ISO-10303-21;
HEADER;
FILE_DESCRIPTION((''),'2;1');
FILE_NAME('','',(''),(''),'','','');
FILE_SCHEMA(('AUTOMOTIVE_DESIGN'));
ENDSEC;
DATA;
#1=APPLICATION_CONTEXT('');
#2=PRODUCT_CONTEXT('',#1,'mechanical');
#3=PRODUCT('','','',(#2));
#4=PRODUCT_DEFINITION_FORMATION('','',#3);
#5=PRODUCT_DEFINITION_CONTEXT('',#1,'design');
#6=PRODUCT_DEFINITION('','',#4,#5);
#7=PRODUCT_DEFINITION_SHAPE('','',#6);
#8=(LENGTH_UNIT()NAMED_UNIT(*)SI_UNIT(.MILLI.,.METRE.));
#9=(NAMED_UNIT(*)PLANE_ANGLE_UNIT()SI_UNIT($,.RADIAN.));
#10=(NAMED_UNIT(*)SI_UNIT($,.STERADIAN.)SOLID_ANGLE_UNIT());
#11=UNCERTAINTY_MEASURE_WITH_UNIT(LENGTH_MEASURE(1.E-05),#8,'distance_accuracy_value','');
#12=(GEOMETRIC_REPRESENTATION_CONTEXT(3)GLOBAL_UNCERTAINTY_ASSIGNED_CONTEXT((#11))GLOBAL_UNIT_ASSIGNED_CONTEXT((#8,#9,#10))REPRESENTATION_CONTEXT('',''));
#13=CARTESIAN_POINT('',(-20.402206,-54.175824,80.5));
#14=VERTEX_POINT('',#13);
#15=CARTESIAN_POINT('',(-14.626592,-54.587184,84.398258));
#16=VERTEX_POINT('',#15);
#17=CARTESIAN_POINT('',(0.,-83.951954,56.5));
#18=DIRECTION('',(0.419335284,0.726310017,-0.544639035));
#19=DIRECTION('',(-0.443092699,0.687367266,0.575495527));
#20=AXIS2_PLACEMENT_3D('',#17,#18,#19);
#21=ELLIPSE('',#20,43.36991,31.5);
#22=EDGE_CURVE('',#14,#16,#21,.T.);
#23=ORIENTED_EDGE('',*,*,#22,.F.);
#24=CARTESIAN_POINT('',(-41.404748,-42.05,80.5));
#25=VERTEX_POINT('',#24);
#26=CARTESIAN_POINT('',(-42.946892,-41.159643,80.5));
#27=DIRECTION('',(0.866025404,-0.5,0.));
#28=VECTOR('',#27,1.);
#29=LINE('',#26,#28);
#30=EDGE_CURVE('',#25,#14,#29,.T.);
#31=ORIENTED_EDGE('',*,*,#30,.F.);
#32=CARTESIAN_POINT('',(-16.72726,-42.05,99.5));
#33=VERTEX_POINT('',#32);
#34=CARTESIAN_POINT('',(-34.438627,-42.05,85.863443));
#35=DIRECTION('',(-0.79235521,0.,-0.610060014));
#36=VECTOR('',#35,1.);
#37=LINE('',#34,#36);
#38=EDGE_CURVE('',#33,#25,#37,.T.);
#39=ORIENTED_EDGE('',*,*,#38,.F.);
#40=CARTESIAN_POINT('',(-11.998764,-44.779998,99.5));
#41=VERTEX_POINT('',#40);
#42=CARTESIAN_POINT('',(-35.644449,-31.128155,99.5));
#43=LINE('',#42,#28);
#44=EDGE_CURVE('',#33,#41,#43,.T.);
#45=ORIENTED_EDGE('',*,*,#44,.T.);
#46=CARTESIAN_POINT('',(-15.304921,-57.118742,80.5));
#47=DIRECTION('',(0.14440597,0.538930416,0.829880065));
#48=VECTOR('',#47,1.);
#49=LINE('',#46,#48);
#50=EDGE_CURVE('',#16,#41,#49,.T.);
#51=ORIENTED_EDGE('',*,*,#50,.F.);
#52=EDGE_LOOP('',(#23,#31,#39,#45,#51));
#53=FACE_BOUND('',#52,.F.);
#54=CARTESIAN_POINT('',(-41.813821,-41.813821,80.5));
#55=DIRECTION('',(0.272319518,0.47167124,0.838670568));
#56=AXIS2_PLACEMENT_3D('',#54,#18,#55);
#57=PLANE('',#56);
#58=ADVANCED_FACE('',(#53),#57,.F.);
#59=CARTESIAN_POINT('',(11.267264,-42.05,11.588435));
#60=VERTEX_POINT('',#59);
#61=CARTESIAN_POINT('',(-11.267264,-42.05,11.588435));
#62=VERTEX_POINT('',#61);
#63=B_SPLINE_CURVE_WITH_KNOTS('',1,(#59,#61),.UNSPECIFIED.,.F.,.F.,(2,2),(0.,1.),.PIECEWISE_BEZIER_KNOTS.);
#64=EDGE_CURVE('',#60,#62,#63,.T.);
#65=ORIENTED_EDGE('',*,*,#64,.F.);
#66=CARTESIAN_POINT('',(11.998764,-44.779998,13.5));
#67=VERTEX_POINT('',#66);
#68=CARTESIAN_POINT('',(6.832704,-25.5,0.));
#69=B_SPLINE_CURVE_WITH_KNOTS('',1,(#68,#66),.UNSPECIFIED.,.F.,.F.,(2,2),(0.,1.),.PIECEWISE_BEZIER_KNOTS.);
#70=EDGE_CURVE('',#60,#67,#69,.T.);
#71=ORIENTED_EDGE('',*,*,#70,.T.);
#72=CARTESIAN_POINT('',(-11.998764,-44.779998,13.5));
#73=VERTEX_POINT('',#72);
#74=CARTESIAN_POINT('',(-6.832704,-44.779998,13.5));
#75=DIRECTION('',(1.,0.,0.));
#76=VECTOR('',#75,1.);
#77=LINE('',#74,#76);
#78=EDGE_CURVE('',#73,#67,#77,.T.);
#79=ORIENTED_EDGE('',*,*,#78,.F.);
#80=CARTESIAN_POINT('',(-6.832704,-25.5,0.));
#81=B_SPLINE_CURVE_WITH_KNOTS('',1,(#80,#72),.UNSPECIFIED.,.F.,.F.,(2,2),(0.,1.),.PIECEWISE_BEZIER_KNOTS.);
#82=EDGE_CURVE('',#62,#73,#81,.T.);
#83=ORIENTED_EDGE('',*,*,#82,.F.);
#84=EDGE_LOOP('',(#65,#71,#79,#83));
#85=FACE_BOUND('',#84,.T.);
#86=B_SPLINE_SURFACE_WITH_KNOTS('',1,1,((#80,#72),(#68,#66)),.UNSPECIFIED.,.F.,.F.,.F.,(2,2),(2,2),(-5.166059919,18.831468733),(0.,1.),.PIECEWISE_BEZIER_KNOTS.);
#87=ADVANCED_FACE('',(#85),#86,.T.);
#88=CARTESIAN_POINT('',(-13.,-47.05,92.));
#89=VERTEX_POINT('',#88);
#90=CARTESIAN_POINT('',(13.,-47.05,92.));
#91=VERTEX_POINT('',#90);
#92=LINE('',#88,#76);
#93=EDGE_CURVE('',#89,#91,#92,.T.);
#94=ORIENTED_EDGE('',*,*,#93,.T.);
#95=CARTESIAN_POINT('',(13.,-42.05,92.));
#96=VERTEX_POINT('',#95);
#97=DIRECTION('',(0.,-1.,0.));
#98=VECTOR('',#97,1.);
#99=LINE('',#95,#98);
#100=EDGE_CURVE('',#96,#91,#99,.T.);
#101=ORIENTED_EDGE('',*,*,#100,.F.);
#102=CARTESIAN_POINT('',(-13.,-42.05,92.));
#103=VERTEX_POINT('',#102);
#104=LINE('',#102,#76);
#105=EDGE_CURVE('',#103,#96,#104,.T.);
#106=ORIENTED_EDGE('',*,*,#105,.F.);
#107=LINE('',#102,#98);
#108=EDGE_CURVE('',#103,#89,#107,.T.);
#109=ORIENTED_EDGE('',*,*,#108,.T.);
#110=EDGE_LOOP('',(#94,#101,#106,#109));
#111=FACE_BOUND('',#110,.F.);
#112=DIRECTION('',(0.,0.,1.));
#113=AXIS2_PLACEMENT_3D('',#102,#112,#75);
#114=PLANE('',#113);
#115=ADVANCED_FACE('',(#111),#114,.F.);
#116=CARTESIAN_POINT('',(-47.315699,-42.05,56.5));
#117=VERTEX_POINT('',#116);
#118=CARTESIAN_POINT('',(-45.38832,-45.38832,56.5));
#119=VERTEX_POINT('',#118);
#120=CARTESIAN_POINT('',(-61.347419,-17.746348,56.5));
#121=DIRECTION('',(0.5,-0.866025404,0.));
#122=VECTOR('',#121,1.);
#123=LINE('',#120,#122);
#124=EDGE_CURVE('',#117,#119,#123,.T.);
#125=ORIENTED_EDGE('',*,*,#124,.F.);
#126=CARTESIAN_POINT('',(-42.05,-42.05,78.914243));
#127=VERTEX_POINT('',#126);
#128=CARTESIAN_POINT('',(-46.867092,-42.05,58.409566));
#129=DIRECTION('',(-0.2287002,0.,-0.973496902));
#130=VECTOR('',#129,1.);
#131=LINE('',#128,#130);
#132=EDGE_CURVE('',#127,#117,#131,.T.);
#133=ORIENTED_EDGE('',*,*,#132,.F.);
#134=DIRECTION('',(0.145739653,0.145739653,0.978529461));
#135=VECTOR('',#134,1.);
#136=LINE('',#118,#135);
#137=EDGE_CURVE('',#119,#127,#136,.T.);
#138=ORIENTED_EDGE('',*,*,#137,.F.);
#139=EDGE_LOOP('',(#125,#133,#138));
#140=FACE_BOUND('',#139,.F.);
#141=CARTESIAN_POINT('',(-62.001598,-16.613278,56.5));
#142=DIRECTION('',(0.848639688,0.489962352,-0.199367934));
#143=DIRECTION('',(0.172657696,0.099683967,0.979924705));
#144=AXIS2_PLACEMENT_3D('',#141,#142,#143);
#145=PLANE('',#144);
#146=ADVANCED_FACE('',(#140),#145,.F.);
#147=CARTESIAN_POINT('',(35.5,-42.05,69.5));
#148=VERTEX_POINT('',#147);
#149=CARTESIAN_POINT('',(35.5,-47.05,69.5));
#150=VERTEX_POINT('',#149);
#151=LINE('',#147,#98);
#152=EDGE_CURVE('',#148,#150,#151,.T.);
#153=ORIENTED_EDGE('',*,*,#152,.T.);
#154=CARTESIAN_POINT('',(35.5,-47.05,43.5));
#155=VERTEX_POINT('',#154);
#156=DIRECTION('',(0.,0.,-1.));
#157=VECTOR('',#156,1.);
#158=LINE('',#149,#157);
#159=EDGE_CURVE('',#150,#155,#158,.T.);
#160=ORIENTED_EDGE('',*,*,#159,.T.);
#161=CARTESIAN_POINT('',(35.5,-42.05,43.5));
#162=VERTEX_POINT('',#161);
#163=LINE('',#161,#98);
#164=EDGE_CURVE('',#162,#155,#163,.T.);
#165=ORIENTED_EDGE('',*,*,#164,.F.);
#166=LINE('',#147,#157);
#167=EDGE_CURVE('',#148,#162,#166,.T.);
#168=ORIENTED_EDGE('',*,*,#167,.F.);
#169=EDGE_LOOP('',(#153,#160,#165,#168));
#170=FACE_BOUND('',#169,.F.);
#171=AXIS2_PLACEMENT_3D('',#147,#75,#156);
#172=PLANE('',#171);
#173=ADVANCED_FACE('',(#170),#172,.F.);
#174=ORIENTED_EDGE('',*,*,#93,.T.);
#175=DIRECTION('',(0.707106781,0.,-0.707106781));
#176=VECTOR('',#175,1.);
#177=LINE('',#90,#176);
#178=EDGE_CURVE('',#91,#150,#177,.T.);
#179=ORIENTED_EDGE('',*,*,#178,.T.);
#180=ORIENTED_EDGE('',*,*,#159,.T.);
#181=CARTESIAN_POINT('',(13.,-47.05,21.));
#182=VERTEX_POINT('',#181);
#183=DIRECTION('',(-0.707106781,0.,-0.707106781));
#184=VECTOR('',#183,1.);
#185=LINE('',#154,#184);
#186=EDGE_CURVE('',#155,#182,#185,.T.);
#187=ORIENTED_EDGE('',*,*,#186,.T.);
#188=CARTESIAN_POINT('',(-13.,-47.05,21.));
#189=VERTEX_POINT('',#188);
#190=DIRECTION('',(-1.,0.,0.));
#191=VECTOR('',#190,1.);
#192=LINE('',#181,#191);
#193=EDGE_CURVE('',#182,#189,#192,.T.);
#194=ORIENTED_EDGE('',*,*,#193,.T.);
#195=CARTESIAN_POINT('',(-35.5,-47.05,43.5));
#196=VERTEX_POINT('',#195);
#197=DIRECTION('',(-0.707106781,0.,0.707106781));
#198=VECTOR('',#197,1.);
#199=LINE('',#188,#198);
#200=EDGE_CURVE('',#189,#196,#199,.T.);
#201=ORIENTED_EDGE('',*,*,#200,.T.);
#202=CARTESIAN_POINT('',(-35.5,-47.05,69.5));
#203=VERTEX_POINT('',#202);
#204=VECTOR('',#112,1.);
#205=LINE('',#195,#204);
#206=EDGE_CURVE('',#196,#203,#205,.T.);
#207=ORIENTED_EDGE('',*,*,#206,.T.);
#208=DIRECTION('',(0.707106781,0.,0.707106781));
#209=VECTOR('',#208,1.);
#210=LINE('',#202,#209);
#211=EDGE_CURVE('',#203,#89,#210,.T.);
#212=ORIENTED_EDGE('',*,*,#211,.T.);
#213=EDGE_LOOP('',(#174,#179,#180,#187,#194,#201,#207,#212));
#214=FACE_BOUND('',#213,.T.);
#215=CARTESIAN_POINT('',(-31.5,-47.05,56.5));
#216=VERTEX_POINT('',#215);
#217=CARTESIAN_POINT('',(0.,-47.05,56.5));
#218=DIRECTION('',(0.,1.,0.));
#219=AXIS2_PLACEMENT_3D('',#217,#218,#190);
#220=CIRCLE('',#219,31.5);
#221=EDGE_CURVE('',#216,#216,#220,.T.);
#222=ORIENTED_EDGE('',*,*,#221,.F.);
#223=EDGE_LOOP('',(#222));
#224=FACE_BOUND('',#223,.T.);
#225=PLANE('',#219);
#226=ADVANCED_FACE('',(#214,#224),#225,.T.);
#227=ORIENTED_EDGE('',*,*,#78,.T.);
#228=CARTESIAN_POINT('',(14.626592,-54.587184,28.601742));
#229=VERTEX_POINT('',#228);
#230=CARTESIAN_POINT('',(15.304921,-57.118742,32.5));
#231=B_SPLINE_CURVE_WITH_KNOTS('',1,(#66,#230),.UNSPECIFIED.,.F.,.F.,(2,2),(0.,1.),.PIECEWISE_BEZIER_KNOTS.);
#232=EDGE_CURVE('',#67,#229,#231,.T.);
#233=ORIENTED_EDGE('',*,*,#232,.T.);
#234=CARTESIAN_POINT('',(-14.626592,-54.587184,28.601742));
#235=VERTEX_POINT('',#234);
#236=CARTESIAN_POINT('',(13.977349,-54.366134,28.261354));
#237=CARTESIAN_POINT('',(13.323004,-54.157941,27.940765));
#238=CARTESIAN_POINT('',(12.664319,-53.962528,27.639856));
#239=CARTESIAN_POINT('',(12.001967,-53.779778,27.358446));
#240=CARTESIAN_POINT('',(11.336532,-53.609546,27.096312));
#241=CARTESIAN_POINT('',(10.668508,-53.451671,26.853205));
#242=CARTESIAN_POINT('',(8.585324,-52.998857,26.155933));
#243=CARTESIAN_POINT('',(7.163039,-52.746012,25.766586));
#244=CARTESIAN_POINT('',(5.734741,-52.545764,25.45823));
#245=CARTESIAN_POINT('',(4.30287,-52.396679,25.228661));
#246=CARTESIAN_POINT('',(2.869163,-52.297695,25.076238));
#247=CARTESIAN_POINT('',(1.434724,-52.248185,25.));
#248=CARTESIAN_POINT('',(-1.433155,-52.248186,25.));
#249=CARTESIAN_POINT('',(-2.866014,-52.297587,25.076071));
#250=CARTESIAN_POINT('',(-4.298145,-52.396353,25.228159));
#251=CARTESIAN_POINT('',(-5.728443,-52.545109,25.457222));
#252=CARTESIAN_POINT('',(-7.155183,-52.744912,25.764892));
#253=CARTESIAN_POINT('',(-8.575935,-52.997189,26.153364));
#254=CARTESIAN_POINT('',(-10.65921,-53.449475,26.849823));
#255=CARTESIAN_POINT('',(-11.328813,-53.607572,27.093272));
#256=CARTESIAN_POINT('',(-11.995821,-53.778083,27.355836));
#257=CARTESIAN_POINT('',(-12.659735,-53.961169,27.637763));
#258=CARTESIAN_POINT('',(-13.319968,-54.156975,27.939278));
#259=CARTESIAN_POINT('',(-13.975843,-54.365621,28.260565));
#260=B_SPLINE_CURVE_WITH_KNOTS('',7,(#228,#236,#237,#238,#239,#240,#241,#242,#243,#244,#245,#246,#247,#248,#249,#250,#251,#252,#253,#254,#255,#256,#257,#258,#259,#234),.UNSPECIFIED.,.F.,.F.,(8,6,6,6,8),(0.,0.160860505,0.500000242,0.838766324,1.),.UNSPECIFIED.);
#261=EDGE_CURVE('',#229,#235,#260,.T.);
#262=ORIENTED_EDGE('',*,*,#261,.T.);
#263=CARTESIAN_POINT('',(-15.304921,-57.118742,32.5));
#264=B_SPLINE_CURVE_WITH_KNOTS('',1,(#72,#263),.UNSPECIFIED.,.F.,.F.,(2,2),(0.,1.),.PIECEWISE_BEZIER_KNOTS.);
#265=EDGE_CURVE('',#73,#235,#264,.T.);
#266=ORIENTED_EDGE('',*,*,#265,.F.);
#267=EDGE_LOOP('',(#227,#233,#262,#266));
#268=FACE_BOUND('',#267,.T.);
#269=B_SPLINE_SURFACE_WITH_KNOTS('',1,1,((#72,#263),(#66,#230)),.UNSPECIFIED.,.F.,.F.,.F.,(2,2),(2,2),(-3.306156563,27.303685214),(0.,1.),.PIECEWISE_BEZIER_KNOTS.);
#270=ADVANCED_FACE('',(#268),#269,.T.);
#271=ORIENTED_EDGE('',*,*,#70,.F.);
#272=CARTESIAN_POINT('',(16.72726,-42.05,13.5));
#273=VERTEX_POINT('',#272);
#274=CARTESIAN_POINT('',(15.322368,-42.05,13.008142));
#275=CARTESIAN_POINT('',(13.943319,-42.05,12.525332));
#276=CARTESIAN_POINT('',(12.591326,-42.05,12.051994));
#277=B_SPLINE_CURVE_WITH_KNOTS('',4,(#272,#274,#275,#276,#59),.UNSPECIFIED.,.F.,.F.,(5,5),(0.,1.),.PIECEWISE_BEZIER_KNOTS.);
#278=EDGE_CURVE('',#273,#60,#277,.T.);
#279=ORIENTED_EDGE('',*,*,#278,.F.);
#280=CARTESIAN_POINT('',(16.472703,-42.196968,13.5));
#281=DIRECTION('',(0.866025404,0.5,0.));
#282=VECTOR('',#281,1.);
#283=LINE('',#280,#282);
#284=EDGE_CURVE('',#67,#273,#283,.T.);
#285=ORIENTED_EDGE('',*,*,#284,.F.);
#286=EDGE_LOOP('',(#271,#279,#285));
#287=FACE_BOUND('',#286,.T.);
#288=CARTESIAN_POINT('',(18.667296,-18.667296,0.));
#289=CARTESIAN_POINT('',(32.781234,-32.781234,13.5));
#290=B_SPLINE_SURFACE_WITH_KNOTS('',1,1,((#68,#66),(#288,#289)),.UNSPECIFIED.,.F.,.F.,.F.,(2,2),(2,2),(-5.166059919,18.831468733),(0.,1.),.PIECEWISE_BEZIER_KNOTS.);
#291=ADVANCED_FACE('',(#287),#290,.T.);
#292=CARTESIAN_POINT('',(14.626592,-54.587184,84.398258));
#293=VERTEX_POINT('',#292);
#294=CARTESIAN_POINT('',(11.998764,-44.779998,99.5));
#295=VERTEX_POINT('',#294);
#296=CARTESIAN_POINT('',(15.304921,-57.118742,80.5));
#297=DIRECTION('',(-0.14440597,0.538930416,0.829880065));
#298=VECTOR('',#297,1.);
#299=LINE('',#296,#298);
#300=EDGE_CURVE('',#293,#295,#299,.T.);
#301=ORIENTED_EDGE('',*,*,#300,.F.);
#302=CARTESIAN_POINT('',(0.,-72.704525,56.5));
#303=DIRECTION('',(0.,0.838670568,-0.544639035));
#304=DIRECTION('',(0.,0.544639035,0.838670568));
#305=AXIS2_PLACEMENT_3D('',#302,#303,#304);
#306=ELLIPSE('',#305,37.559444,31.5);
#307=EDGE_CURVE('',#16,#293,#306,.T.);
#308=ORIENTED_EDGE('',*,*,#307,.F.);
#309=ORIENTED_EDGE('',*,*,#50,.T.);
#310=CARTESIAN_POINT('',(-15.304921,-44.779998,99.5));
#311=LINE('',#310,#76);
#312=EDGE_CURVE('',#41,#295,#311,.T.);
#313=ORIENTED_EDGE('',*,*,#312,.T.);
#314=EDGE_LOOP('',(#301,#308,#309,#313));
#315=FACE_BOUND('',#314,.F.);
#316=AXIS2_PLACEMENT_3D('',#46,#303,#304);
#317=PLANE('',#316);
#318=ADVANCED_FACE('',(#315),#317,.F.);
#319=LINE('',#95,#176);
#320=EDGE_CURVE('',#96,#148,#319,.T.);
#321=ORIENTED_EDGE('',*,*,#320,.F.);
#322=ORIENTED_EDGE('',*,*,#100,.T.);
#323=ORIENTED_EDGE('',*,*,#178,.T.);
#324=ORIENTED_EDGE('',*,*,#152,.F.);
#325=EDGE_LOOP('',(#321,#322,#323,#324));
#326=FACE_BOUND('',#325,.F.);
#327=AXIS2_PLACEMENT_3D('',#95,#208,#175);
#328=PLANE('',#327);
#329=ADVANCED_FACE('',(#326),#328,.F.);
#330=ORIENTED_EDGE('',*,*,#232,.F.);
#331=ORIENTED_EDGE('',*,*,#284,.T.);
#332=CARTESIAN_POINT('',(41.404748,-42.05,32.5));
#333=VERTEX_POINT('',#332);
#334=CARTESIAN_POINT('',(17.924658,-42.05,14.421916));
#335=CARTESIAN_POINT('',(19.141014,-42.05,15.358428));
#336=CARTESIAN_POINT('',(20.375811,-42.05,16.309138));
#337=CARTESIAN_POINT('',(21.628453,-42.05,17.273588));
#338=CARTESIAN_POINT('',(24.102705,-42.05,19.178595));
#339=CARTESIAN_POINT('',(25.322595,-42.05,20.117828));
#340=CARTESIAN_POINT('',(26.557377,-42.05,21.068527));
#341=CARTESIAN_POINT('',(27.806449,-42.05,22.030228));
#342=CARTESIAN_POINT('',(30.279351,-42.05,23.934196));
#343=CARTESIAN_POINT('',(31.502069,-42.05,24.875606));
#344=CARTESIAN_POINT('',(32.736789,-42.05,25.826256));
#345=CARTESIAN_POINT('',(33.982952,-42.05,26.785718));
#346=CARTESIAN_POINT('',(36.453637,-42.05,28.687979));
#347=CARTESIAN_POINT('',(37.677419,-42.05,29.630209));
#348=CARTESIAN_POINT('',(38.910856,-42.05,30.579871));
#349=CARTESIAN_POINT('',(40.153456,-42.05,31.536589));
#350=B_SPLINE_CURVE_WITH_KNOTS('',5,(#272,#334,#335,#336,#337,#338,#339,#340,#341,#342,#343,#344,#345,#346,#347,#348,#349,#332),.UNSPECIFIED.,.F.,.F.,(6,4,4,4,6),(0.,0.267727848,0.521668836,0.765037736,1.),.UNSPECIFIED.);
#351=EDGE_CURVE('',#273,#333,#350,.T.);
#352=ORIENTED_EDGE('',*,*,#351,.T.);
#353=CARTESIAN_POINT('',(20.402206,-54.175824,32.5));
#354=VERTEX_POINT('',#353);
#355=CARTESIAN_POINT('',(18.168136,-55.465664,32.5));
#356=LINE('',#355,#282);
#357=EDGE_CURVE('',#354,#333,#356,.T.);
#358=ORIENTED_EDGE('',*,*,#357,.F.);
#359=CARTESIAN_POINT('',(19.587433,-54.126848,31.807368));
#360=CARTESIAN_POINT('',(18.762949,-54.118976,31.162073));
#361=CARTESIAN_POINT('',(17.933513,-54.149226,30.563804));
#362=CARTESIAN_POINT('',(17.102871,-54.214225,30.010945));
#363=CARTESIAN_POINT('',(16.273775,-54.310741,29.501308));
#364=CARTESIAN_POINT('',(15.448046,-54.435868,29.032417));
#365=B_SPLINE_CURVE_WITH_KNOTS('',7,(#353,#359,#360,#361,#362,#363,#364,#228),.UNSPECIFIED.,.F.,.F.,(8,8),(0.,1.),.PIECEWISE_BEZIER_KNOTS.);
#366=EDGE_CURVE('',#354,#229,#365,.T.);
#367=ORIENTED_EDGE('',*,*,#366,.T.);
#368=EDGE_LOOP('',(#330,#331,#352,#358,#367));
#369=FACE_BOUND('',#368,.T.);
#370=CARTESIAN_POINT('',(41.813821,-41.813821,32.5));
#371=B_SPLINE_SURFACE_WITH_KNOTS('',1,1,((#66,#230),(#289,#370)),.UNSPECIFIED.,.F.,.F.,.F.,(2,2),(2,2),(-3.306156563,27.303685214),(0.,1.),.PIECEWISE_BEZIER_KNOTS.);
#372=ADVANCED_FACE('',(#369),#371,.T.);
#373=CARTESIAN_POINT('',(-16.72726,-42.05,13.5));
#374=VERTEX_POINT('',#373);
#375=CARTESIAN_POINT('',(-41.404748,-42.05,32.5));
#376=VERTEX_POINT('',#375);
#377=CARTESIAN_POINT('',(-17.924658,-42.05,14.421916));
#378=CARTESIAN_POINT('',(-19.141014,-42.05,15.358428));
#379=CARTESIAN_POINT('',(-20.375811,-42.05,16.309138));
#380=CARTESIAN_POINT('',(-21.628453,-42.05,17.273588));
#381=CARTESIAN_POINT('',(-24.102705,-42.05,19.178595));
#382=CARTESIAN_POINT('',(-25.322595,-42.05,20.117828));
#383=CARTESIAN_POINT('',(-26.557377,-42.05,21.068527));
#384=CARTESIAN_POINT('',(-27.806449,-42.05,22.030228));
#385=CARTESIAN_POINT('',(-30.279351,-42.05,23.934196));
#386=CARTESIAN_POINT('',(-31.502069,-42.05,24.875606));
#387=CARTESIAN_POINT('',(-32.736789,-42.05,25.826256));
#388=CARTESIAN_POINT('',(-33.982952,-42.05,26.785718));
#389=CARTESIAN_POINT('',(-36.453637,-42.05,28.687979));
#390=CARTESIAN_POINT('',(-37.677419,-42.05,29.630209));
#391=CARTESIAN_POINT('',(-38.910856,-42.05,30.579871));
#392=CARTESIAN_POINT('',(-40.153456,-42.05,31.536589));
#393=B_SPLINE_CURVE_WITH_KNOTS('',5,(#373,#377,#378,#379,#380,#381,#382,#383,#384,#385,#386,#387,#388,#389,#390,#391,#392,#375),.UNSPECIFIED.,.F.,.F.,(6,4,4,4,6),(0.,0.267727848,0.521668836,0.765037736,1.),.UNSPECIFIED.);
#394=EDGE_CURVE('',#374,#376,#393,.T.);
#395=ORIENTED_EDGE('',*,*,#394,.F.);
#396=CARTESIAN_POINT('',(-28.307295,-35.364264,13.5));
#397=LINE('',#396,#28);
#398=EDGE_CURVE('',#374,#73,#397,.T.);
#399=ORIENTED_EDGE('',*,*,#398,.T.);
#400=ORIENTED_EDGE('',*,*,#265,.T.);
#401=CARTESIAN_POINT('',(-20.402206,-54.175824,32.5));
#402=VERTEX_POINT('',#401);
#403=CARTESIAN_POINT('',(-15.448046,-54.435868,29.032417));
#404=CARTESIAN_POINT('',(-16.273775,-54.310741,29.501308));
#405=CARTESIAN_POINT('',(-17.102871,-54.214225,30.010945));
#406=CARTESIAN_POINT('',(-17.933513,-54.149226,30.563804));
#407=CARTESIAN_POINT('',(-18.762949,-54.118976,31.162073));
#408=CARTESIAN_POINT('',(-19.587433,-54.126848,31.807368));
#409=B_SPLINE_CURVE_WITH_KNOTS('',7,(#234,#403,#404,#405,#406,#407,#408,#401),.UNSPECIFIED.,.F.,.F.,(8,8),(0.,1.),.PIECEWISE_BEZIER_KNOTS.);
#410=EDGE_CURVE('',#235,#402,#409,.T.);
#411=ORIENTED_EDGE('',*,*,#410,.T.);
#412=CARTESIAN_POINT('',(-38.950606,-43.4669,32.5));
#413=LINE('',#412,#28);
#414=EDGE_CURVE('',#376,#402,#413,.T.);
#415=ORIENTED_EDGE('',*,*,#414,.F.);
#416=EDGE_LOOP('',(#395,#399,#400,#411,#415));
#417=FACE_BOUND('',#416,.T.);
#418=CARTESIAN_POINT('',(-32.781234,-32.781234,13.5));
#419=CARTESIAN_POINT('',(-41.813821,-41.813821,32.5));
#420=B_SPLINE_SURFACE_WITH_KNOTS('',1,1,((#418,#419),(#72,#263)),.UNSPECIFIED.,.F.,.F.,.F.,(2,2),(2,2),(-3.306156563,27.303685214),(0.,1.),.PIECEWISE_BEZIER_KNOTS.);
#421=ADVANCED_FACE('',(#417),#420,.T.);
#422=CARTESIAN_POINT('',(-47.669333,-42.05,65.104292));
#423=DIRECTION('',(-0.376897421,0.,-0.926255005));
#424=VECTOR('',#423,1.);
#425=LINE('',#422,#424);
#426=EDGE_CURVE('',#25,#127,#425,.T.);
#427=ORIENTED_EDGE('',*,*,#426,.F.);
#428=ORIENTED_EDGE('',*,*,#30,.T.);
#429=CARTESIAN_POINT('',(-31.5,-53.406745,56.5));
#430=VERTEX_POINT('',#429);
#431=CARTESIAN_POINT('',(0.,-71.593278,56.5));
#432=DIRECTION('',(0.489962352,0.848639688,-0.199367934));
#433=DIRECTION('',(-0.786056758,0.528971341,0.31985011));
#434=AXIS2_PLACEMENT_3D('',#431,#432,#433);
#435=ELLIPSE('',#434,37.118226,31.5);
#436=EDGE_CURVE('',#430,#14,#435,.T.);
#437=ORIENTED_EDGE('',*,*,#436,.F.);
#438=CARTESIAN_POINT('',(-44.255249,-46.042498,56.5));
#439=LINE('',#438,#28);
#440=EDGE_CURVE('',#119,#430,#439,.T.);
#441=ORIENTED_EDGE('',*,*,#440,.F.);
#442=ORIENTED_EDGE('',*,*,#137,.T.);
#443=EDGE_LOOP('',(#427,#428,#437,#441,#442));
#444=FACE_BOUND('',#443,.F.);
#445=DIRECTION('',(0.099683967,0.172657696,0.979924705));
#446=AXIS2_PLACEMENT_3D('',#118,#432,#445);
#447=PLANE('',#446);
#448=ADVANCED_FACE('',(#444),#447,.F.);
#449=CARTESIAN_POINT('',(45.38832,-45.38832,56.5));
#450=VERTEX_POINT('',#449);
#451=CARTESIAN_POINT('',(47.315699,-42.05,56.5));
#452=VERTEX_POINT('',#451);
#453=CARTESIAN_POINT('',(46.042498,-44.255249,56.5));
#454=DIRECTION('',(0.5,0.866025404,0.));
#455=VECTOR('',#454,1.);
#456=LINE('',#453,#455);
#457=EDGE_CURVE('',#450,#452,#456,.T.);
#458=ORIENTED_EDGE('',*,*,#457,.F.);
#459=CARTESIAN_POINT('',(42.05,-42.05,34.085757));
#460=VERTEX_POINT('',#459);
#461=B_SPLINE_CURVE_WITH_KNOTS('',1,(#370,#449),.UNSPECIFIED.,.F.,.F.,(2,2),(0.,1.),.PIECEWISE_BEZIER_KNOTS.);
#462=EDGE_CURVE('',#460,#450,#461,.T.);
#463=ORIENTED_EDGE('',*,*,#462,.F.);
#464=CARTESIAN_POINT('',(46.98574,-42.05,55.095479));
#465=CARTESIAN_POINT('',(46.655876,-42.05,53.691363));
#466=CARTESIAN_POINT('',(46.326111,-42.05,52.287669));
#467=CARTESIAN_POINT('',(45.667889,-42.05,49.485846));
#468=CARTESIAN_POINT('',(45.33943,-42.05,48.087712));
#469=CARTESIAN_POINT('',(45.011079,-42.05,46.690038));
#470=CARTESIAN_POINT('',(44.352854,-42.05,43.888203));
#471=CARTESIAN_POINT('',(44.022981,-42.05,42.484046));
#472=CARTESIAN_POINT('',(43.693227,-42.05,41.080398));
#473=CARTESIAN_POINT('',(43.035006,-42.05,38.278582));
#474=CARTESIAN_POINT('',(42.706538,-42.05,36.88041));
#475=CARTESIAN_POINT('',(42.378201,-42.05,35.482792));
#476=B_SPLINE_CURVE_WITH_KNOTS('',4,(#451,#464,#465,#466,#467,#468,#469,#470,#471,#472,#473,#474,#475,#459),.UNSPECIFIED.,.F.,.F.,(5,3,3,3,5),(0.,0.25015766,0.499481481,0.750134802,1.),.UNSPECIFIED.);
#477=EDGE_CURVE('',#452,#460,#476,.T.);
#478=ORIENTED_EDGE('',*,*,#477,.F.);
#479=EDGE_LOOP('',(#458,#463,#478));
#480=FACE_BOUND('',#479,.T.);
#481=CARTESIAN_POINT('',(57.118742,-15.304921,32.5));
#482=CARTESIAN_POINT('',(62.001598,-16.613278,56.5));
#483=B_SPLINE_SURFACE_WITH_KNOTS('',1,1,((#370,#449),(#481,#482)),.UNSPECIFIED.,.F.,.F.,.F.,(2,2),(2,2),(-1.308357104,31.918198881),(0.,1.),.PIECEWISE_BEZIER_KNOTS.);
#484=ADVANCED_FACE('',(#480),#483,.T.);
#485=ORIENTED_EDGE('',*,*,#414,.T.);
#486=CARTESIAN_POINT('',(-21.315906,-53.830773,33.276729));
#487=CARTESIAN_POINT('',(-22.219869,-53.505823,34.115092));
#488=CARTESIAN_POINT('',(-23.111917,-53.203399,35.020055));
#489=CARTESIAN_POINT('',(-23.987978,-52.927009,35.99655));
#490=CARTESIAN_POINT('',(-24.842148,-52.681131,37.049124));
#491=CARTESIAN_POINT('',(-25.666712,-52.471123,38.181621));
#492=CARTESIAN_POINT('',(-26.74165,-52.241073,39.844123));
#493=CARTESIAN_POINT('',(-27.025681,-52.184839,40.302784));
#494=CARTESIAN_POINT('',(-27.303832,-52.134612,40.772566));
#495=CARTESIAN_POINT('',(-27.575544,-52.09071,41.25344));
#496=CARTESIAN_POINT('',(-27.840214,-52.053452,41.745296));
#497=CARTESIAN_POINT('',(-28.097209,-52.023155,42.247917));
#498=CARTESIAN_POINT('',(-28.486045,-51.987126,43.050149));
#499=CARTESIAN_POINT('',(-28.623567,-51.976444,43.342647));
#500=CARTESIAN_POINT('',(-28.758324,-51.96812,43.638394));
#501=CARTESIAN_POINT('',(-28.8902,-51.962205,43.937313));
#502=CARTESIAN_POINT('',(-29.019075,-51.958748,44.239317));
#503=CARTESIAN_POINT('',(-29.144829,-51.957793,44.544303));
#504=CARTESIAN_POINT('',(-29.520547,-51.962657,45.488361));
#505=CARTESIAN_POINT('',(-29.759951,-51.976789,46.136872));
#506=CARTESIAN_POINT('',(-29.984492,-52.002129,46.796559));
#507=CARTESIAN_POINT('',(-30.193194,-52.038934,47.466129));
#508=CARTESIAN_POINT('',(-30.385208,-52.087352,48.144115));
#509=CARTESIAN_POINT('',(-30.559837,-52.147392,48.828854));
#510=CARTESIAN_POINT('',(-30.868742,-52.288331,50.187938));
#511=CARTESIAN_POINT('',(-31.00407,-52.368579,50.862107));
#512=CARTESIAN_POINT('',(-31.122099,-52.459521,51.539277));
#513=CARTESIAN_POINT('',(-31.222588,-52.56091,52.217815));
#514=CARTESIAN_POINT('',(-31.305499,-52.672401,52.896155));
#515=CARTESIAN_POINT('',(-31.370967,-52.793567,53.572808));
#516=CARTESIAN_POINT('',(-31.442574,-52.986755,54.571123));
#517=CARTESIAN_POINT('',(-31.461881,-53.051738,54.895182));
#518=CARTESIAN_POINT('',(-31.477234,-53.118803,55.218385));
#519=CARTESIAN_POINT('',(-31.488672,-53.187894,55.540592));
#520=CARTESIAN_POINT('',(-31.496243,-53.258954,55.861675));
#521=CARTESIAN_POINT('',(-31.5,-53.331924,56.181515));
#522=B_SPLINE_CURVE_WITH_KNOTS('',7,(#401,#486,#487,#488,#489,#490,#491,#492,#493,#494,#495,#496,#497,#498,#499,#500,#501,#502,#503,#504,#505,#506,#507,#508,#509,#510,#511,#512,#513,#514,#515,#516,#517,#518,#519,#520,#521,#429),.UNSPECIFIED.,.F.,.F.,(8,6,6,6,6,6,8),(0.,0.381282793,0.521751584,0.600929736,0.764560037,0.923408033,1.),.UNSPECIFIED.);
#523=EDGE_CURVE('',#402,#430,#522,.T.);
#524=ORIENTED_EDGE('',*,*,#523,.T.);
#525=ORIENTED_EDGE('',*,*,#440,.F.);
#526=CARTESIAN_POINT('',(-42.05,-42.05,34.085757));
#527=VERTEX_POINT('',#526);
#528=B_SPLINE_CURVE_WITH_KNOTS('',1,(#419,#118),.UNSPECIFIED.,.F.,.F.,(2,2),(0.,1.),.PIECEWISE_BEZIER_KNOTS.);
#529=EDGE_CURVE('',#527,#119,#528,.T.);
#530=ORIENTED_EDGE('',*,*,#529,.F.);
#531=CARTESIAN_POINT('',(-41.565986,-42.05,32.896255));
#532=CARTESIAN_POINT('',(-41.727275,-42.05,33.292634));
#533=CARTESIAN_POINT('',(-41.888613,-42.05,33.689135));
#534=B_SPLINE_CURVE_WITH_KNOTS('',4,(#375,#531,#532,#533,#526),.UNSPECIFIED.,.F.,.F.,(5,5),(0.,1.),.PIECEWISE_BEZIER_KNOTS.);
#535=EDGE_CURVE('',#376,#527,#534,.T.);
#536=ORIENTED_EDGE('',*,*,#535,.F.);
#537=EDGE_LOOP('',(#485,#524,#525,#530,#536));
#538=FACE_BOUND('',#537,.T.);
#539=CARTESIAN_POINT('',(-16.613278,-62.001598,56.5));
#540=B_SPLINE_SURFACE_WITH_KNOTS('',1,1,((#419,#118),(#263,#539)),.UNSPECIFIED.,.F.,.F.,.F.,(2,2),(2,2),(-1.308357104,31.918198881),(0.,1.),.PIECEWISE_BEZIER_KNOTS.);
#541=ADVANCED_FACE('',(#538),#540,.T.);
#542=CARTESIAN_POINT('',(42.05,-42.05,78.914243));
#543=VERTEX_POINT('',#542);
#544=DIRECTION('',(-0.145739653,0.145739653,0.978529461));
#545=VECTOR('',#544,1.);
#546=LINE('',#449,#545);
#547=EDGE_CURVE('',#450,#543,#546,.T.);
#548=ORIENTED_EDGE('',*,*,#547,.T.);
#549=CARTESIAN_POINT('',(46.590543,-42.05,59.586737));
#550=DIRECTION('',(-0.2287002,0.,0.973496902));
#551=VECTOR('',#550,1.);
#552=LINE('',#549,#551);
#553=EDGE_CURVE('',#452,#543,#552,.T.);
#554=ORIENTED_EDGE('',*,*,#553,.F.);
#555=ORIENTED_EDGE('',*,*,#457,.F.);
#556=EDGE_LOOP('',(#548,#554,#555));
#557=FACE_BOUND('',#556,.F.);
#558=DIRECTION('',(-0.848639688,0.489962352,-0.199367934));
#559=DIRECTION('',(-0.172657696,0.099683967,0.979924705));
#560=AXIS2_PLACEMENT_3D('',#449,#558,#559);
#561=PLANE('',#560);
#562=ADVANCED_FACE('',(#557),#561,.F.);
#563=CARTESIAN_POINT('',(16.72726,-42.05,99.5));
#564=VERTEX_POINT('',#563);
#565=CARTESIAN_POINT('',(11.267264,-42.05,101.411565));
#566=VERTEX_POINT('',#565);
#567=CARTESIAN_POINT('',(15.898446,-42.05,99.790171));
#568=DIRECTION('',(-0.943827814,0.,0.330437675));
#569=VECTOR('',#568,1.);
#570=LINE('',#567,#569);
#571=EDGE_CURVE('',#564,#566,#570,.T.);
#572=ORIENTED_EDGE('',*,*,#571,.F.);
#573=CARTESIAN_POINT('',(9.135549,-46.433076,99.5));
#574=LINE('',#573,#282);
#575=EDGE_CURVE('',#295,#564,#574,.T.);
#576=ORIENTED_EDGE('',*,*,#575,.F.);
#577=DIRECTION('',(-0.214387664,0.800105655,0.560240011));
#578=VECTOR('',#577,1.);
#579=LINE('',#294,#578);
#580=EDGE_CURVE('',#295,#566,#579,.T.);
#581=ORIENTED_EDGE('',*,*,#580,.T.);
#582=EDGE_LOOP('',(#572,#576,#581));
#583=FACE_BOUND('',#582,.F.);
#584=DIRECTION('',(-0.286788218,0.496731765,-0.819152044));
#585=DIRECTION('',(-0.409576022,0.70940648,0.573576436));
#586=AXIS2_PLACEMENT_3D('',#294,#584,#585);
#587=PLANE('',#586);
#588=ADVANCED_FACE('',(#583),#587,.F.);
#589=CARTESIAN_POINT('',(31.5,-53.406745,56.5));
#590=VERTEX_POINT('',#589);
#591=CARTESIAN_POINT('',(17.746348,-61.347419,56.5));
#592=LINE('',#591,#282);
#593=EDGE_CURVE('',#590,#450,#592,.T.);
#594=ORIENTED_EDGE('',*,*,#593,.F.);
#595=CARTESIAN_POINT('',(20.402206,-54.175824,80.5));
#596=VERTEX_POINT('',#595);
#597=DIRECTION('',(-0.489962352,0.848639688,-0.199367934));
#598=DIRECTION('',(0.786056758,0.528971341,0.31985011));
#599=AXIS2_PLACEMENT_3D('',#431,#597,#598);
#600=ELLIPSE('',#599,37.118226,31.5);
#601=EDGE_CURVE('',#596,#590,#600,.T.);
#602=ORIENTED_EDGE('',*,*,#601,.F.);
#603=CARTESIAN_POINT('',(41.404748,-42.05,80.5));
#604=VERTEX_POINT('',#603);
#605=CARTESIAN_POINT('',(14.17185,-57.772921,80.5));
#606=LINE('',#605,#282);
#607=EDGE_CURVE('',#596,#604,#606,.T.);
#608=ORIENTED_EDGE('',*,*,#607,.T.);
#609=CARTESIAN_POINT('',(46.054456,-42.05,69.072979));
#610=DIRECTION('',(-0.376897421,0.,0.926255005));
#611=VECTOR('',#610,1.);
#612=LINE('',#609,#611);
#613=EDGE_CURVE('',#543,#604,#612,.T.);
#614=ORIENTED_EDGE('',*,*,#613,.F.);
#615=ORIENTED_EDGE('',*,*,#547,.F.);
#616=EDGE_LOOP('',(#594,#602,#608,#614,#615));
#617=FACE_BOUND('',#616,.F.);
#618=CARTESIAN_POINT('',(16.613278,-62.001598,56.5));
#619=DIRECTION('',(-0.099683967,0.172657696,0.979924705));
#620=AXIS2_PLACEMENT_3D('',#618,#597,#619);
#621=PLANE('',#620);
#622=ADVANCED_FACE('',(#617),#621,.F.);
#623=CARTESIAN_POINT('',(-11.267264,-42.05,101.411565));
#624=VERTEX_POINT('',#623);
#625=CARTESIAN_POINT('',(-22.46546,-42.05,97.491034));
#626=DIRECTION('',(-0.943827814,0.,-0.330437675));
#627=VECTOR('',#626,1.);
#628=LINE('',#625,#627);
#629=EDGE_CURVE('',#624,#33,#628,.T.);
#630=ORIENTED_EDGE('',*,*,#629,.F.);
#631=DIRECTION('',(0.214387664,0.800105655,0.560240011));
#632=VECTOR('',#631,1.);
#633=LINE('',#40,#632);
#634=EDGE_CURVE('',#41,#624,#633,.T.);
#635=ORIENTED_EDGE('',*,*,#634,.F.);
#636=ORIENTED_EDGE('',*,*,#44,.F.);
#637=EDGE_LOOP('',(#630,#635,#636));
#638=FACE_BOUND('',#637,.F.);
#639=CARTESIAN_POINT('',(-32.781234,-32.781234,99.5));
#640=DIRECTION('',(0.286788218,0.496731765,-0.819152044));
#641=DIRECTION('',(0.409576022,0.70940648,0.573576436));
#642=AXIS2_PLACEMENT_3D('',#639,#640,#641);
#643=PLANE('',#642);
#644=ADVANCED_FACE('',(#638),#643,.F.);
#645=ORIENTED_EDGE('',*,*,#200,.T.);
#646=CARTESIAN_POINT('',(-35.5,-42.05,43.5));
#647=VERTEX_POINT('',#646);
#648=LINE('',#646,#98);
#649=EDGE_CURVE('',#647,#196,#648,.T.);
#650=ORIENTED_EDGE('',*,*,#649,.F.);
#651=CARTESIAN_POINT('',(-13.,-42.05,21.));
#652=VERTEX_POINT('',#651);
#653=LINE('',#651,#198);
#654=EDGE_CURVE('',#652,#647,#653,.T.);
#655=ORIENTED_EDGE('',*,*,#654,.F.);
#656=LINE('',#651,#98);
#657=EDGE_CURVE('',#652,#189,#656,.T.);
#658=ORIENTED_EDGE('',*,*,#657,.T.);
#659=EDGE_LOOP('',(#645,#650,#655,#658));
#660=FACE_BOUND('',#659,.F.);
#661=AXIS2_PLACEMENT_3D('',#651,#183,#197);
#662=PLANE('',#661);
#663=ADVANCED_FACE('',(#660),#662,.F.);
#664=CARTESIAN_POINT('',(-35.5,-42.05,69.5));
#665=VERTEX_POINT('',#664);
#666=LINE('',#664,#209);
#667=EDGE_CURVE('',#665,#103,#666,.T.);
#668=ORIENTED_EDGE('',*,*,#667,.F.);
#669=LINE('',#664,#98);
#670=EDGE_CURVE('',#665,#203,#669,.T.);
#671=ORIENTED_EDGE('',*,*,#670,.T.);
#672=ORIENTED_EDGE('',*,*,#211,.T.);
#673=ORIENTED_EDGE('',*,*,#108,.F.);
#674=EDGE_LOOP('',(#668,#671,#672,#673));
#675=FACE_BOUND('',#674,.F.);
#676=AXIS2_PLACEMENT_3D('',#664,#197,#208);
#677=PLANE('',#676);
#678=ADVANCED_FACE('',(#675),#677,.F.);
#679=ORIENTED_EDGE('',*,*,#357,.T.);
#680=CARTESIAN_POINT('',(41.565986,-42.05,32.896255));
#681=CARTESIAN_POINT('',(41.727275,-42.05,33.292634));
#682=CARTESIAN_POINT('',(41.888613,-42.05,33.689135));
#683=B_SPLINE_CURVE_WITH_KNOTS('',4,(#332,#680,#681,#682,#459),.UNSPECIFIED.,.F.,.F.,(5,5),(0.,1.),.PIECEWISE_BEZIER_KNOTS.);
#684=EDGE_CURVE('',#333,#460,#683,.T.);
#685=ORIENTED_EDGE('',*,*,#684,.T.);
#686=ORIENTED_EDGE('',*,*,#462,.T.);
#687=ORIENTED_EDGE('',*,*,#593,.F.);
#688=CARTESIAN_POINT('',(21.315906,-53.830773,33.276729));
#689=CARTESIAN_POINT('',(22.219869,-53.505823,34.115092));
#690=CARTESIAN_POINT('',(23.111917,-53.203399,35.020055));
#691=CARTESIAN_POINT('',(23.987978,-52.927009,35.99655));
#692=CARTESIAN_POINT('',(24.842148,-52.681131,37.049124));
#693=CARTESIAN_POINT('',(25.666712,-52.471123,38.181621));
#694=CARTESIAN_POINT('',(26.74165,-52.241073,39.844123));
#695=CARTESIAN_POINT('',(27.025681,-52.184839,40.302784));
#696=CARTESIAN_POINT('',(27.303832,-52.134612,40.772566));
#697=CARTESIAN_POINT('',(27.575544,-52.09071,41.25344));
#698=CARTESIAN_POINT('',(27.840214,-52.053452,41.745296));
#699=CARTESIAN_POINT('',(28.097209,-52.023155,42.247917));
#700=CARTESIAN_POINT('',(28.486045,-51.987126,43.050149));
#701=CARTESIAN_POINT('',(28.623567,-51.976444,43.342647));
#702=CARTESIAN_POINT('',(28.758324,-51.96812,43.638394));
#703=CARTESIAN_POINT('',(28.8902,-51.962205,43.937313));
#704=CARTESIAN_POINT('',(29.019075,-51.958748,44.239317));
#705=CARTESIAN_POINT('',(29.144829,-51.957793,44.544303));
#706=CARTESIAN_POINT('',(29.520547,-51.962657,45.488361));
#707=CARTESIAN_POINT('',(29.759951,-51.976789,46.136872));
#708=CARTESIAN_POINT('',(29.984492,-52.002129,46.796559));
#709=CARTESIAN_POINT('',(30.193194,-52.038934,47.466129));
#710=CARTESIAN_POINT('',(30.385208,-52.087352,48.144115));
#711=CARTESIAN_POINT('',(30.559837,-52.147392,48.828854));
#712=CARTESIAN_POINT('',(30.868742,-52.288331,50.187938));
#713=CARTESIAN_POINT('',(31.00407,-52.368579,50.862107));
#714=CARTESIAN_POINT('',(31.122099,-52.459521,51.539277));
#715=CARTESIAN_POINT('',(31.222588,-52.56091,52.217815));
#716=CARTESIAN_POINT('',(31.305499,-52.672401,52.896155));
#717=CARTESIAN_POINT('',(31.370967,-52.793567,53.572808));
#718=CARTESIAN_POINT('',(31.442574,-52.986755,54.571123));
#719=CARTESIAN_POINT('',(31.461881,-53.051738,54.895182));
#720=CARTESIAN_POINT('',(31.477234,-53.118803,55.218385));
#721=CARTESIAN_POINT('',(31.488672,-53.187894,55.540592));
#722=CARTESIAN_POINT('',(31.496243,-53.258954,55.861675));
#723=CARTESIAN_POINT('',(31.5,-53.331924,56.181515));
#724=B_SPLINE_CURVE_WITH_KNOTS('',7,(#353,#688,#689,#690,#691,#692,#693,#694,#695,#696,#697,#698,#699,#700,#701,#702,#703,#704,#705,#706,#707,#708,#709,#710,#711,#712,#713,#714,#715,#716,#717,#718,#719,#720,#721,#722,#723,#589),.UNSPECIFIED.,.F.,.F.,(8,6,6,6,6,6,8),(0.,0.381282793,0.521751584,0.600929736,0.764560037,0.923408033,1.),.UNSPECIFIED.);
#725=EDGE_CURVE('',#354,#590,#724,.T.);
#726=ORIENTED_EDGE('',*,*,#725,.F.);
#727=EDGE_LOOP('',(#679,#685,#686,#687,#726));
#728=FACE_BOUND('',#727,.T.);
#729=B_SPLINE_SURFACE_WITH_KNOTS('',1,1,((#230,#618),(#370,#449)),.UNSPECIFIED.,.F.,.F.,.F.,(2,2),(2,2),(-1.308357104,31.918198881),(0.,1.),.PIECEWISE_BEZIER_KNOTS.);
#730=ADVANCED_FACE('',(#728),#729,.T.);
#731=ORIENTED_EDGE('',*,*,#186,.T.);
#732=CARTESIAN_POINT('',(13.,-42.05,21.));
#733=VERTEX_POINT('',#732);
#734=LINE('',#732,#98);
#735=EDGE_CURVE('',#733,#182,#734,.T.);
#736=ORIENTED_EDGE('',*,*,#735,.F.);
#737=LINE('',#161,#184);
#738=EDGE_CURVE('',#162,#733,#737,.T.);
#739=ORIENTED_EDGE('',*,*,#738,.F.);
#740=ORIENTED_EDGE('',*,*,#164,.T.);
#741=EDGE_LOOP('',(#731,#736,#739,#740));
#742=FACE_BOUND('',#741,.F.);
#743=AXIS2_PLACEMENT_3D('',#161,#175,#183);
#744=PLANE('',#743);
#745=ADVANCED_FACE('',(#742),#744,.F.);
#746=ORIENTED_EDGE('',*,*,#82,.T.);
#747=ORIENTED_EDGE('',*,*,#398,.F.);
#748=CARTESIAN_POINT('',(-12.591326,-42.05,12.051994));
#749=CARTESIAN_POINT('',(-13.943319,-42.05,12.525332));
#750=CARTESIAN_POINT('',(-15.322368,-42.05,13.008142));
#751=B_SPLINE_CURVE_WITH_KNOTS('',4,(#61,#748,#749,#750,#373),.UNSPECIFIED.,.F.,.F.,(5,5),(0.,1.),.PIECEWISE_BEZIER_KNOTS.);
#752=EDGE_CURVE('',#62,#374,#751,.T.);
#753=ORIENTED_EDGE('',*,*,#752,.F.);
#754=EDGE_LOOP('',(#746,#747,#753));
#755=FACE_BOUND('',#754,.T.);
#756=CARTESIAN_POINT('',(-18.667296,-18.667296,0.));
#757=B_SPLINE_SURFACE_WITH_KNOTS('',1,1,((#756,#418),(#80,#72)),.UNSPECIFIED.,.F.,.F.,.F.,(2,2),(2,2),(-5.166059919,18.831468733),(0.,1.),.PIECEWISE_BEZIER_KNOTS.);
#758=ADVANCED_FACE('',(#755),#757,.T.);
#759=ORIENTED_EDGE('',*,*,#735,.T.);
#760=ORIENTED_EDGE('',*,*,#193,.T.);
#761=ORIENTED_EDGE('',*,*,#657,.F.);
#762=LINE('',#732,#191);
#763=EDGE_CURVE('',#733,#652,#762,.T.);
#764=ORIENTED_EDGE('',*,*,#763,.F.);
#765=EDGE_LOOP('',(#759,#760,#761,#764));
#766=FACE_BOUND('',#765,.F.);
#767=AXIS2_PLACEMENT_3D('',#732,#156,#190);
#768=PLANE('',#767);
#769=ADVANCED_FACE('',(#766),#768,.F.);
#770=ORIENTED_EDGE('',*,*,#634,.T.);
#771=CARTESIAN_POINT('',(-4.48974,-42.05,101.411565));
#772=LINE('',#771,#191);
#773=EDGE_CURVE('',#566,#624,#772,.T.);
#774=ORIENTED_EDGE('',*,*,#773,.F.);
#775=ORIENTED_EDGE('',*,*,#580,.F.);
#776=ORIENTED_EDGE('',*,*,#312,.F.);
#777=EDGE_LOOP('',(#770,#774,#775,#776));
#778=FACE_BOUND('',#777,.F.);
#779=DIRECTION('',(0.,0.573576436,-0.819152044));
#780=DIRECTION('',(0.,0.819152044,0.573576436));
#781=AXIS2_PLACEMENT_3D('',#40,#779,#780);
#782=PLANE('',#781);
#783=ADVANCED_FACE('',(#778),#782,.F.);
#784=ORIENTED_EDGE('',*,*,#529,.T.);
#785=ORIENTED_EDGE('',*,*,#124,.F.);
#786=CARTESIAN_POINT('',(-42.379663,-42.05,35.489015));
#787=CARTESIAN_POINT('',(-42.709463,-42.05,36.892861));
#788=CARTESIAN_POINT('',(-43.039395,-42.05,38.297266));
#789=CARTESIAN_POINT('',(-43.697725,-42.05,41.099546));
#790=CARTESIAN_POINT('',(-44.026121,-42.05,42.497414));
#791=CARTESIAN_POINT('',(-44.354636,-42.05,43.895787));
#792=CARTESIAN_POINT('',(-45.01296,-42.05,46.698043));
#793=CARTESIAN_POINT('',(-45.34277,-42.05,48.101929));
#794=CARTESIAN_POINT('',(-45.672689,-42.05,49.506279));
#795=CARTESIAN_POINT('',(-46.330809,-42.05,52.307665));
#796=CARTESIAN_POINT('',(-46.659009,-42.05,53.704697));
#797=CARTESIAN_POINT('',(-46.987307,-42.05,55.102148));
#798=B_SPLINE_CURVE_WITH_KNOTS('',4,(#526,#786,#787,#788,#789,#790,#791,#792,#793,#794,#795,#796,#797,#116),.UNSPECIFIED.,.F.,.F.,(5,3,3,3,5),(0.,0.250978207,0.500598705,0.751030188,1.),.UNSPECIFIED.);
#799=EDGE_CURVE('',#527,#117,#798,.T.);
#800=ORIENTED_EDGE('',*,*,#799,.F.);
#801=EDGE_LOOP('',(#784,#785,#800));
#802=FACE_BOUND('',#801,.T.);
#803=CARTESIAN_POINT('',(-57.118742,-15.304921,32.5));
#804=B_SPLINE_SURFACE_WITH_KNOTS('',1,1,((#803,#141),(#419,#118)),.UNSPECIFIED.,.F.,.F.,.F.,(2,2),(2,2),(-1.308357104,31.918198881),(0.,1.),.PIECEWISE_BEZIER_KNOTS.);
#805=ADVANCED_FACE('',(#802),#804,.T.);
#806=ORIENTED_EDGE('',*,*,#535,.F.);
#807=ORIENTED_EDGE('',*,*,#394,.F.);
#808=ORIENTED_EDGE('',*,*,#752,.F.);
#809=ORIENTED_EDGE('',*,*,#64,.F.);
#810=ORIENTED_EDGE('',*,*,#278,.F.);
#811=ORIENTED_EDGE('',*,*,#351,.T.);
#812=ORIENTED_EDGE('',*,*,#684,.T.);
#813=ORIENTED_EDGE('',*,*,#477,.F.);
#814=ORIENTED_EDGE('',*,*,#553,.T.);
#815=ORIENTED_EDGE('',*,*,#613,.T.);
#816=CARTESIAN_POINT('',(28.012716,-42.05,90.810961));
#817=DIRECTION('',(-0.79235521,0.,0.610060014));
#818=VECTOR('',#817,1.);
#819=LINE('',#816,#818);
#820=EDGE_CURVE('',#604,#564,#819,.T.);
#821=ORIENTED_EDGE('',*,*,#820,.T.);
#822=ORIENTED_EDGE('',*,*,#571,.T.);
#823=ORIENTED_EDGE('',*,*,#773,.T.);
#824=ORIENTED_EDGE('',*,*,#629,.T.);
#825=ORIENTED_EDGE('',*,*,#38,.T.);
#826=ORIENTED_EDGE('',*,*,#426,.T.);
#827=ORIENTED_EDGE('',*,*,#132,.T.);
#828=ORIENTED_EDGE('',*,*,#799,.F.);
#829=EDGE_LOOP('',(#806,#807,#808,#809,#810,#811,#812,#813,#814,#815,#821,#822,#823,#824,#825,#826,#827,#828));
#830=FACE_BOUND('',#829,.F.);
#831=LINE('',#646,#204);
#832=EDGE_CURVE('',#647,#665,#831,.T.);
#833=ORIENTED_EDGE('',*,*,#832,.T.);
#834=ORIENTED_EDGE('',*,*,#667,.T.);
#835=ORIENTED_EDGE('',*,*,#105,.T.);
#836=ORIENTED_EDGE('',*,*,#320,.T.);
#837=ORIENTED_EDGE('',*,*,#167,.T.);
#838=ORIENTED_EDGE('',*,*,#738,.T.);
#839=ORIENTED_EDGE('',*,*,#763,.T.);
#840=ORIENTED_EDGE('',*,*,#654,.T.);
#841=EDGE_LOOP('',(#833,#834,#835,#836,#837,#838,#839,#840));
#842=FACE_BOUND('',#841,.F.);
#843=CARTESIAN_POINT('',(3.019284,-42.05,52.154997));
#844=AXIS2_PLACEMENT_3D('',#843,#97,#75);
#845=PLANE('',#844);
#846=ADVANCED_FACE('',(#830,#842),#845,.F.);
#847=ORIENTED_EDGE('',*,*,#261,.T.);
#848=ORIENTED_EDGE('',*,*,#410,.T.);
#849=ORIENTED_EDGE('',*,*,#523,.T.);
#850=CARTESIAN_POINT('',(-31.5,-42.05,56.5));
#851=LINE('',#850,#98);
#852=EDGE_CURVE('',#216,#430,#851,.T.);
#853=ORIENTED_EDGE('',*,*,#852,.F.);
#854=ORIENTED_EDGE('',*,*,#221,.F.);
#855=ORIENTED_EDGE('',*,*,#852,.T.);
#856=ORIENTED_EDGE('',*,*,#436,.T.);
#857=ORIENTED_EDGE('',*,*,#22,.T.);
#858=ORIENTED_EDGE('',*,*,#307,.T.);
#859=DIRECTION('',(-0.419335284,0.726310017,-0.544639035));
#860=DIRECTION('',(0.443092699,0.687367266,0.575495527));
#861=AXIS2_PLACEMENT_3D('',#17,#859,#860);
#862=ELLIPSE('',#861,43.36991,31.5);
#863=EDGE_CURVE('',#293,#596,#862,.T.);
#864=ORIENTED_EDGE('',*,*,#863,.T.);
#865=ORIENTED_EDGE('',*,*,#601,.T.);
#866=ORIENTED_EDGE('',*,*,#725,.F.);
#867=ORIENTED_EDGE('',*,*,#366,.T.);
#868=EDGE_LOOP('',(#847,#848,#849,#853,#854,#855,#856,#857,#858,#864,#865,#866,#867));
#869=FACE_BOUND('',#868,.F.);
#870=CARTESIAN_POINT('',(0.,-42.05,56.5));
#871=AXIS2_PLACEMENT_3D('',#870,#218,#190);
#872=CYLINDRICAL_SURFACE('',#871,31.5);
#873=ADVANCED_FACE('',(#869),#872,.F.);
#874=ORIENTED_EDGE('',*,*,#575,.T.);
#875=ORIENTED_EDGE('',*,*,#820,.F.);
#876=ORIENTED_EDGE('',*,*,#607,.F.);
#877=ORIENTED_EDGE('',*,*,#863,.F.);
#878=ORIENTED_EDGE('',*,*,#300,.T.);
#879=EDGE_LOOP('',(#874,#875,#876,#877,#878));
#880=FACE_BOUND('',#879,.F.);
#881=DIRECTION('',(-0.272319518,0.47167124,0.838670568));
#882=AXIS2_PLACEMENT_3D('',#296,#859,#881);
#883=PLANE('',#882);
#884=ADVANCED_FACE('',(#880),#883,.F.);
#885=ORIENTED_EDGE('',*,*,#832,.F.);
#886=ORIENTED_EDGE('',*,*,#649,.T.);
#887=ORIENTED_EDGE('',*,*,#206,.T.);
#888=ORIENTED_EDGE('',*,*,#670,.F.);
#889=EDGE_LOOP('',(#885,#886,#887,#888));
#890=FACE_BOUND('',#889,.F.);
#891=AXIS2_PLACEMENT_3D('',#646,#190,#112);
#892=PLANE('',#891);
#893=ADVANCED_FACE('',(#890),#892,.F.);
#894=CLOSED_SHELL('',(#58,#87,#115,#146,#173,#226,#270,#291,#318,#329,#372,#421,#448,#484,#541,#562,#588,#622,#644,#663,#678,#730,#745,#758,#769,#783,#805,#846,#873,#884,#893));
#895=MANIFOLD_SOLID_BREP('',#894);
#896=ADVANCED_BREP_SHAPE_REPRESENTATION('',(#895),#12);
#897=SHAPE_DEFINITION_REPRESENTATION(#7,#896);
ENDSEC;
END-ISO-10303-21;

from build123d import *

# Parameters (mm, degrees)
F2_DEPTH  = 13.5
F2_TAPER  = -55
F4_DEPTH  = 19
F4_TAPER  = -33
F6_DEPTH  = 24
F6_TAPER  = -11.5
F8_DEPTH  = 24
F8_TAPER  = 11.5
F10_DEPTH = 19
F10_TAPER = 33
F12_DEPTH = 13.5
F12_TAPER = 55
F17_COUNT = 12
F17_ANGLE = 330
F19_W     = 150.1999571919
F19_H     = 155.7629220188
F20_DEPTH = 104.0525976479
F21_R     = 31.5
F22_DEPTH = 25
F23_R     = 31.5
F24_DEPTH = 5


with BuildPart() as f2:
    # F1 (on Top) → F2 (new body)
    with BuildSketch(Plane.XY):
        Polygon((18.667295593, -18.667295593), (25.5, -6.832704407), (25.5, 6.832704407), (18.667295593, 18.667295593), (6.832704407, 25.5), (-6.832704407, 25.5), (-18.667295593, 18.667295593), (-25.5, 6.832704407), (-25.5, -6.832704407), (-18.667295593, -18.667295593), (-6.832704407, -25.5), (6.832704407, -25.5), align=None)
    extrude(amount=F2_DEPTH, taper=F2_TAPER)

    # F3 (on face) → F4 (join)
    with BuildSketch(Plane.XY.offset(13.5)):
        Polygon((11.9987643256, -44.779998091), (32.7812337655, -32.7812337655), (44.779998091, -11.9987643256), (44.779998091, 11.9987643256), (32.7812337655, 32.7812337655), (11.9987643256, 44.779998091), (-11.9987643256, 44.779998091), (-32.7812337655, 32.7812337655), (-44.779998091, 11.9987643256), (-44.779998091, -11.9987643256), (-32.7812337655, -32.7812337655), (-11.9987643256, -44.779998091), align=None)
    extrude(amount=F4_DEPTH, taper=F4_TAPER)

    # F5 (on face) → F6 (join)
    with BuildSketch(Plane.XY.offset(32.5)):
        Polygon((15.3049208885, -57.1187423618), (41.8138214733, -41.8138214733), (57.1187423618, -15.3049208885), (57.1187423618, 15.3049208885), (41.8138214733, 41.8138214733), (15.3049208885, 57.1187423618), (-15.3049208885, 57.1187423618), (-41.8138214733, 41.8138214733), (-57.1187423618, 15.3049208885), (-57.1187423618, -15.3049208885), (-41.8138214733, -41.8138214733), (-15.3049208885, -57.1187423618), align=None)
    extrude(amount=F6_DEPTH, taper=F6_TAPER)

    # F7 (on face) → F8 (join)
    with BuildSketch(Plane.XY.offset(56.5)):
        Polygon((-16.6132779924, -62.0015975479), (16.6132779924, -62.0015975479), (45.3883195555, -45.3883195555), (62.0015975479, -16.6132779924), (62.0015975479, 16.6132779924), (45.3883195555, 45.3883195555), (16.6132779924, 62.0015975479), (-16.6132779924, 62.0015975479), (-45.3883195555, 45.3883195555), (-62.0015975479, 16.6132779924), (-62.0015975479, -16.6132779924), (-45.3883195555, -45.3883195555), align=None)
    extrude(amount=F8_DEPTH, taper=F8_TAPER)

    # F9 (on face) → F10 (join)
    with BuildSketch(Plane.XY.offset(80.5)):
        Polygon((15.3049208885, -57.1187423618), (41.8138214733, -41.8138214733), (57.1187423618, -15.3049208885), (57.1187423618, 15.3049208885), (41.8138214733, 41.8138214733), (15.3049208885, 57.1187423618), (-15.3049208885, 57.1187423618), (-41.8138214733, 41.8138214733), (-57.1187423618, 15.3049208885), (-57.1187423618, -15.3049208885), (-41.8138214733, -41.8138214733), (-15.3049208885, -57.1187423618), align=None)
    extrude(amount=F10_DEPTH, taper=F10_TAPER)

    # F11 (on face) → F12 (join)
    with BuildSketch(Plane.XY.offset(99.5)):
        Polygon((-32.7812337655, -32.7812337655), (-11.9987643256, -44.779998091), (11.9987643256, -44.779998091), (32.7812337655, -32.7812337655), (44.779998091, -11.9987643256), (44.779998091, 11.9987643256), (32.7812337655, 32.7812337655), (11.9987643256, 44.779998091), (-11.9987643256, 44.779998091), (-32.7812337655, 32.7812337655), (-44.779998091, 11.9987643256), (-44.779998091, -11.9987643256), align=None)
    extrude(amount=F12_DEPTH, taper=F12_TAPER)


with BuildPart() as f16:
    # F15 (on 3pt) → F16 (new body, up to the next surface of F2)
    with BuildSketch(Plane(origin=(12.3175443523, -21.3346126427, 113.1882453996), x_dir=(0.9943304543, 0.0196958746, -0.1044941158), z_dir=(-0.1063341323, 0.1841761198, -0.9771244594))):
        Polygon((6.3859567143, -2.5862935324), (-5.5161138048, 4.1281770657), (-12.3877774228, -21.9585741432), align=None)
    extrude(until=Until.NEXT, target=f2.part)


with BuildPart() as f17_1:
    # F17: instance of F16
    add(f16.part.rotate(Axis((0, 0, 87.5846954226), (0, 0, 1)), 1 * F17_ANGLE / (F17_COUNT - 1)))


with BuildPart() as f17_2:
    # F17: instance of F16
    add(f16.part.rotate(Axis((0, 0, 87.5846954226), (0, 0, 1)), 2 * F17_ANGLE / (F17_COUNT - 1)))


with BuildPart() as f17_3:
    # F17: instance of F16
    add(f16.part.rotate(Axis((0, 0, 87.5846954226), (0, 0, 1)), 3 * F17_ANGLE / (F17_COUNT - 1)))


with BuildPart() as f17_4:
    # F17: instance of F16
    add(f16.part.rotate(Axis((0, 0, 87.5846954226), (0, 0, 1)), 4 * F17_ANGLE / (F17_COUNT - 1)))


with BuildPart() as f17_5:
    # F17: instance of F16
    add(f16.part.rotate(Axis((0, 0, 87.5846954226), (0, 0, 1)), 5 * F17_ANGLE / (F17_COUNT - 1)))


with BuildPart() as f17_6:
    # F17: instance of F16
    add(f16.part.rotate(Axis((0, 0, 87.5846954226), (0, 0, 1)), 6 * F17_ANGLE / (F17_COUNT - 1)))


with BuildPart() as f17_7:
    # F17: instance of F16
    add(f16.part.rotate(Axis((0, 0, 87.5846954226), (0, 0, 1)), 7 * F17_ANGLE / (F17_COUNT - 1)))


with BuildPart() as f17_8:
    # F17: instance of F16
    add(f16.part.rotate(Axis((0, 0, 87.5846954226), (0, 0, 1)), 8 * F17_ANGLE / (F17_COUNT - 1)))


with BuildPart() as f17_9:
    # F17: instance of F16
    add(f16.part.rotate(Axis((0, 0, 87.5846954226), (0, 0, 1)), 9 * F17_ANGLE / (F17_COUNT - 1)))


with BuildPart() as f17_10:
    # F17: instance of F16
    add(f16.part.rotate(Axis((0, 0, 87.5846954226), (0, 0, 1)), 10 * F17_ANGLE / (F17_COUNT - 1)))


with BuildPart() as f17_11:
    # F17: instance of F16
    add(f16.part.rotate(Axis((0, 0, 87.5846954226), (0, 0, 1)), 11 * F17_ANGLE / (F17_COUNT - 1)))


with BuildPart() as f20_tool:
    # F19 (on offset) → F20 (new body, through all)
    with BuildSketch(Plane.XZ.offset(42.05)):
        with Locations((3.019284457, 52.1549973637)):
            Rectangle(F19_W, F19_H)
    extrude(amount=-F20_DEPTH)


with BuildPart() as f2_1:
    add(f2.part)

    # F20: cut by f20_tool
    add(f20_tool.part, mode=Mode.SUBTRACT)

    # F21 (on face) → F22 (cut)
    with BuildSketch(Plane(origin=(0, -42.05, 0), x_dir=(-1, 0, 0), z_dir=(0, 1, 0))):
        with Locations((0, 56.5)):
            Circle(F21_R)
    extrude(amount=-F22_DEPTH, mode=Mode.SUBTRACT)

    # F23 (on face) → F24 (cut)
    with BuildSketch(Plane(origin=(0, -42.05, 0), x_dir=(-1, 0, 0), z_dir=(0, 1, 0))):
        Polygon((13, 92), (-13, 92), (-35.5, 69.5), (-35.5, 43.5), (-13, 21), (13, 21), (35.5, 43.5), (35.5, 56.5), (35.5, 69.5), align=None)
        with Locations((0, 56.5)):
            Circle(F23_R, mode=Mode.SUBTRACT)
    extrude(amount=-F24_DEPTH, mode=Mode.SUBTRACT)


with BuildPart() as f16_1:
    add(f16.part)

    # F20: cut by f20_tool
    add(f20_tool.part, mode=Mode.SUBTRACT)


with BuildPart() as f17_1_1:
    add(f17_1.part)

    # F20: cut by f20_tool
    add(f20_tool.part, mode=Mode.SUBTRACT)


with BuildPart() as f17_2_1:
    add(f17_2.part)

    # F20: cut by f20_tool
    add(f20_tool.part, mode=Mode.SUBTRACT)


with BuildPart() as f17_3_1:
    add(f17_3.part)

    # F20: cut by f20_tool
    add(f20_tool.part, mode=Mode.SUBTRACT)


with BuildPart() as f17_4_1:
    add(f17_4.part)

    # F20: cut by f20_tool
    add(f20_tool.part, mode=Mode.SUBTRACT)


with BuildPart() as f17_5_1:
    add(f17_5.part)

    # F20: cut by f20_tool
    add(f20_tool.part, mode=Mode.SUBTRACT)


with BuildPart() as f17_6_1:
    add(f17_6.part)

    # F20: cut by f20_tool
    add(f20_tool.part, mode=Mode.SUBTRACT)


with BuildPart() as f17_7_1:
    add(f17_7.part)

    # F20: cut by f20_tool
    add(f20_tool.part, mode=Mode.SUBTRACT)


with BuildPart() as f17_8_1:
    add(f17_8.part)

    # F20: cut by f20_tool
    add(f20_tool.part, mode=Mode.SUBTRACT)


with BuildPart() as f17_9_1:
    add(f17_9.part)

    # F20: cut by f20_tool
    add(f20_tool.part, mode=Mode.SUBTRACT)


with BuildPart() as f17_10_1:
    add(f17_10.part)

    # F20: cut by f20_tool
    add(f20_tool.part, mode=Mode.SUBTRACT)


with BuildPart() as f17_11_1:
    add(f17_11.part)

    # F20: cut by f20_tool
    add(f20_tool.part, mode=Mode.SUBTRACT)


solid = f2_1.part
